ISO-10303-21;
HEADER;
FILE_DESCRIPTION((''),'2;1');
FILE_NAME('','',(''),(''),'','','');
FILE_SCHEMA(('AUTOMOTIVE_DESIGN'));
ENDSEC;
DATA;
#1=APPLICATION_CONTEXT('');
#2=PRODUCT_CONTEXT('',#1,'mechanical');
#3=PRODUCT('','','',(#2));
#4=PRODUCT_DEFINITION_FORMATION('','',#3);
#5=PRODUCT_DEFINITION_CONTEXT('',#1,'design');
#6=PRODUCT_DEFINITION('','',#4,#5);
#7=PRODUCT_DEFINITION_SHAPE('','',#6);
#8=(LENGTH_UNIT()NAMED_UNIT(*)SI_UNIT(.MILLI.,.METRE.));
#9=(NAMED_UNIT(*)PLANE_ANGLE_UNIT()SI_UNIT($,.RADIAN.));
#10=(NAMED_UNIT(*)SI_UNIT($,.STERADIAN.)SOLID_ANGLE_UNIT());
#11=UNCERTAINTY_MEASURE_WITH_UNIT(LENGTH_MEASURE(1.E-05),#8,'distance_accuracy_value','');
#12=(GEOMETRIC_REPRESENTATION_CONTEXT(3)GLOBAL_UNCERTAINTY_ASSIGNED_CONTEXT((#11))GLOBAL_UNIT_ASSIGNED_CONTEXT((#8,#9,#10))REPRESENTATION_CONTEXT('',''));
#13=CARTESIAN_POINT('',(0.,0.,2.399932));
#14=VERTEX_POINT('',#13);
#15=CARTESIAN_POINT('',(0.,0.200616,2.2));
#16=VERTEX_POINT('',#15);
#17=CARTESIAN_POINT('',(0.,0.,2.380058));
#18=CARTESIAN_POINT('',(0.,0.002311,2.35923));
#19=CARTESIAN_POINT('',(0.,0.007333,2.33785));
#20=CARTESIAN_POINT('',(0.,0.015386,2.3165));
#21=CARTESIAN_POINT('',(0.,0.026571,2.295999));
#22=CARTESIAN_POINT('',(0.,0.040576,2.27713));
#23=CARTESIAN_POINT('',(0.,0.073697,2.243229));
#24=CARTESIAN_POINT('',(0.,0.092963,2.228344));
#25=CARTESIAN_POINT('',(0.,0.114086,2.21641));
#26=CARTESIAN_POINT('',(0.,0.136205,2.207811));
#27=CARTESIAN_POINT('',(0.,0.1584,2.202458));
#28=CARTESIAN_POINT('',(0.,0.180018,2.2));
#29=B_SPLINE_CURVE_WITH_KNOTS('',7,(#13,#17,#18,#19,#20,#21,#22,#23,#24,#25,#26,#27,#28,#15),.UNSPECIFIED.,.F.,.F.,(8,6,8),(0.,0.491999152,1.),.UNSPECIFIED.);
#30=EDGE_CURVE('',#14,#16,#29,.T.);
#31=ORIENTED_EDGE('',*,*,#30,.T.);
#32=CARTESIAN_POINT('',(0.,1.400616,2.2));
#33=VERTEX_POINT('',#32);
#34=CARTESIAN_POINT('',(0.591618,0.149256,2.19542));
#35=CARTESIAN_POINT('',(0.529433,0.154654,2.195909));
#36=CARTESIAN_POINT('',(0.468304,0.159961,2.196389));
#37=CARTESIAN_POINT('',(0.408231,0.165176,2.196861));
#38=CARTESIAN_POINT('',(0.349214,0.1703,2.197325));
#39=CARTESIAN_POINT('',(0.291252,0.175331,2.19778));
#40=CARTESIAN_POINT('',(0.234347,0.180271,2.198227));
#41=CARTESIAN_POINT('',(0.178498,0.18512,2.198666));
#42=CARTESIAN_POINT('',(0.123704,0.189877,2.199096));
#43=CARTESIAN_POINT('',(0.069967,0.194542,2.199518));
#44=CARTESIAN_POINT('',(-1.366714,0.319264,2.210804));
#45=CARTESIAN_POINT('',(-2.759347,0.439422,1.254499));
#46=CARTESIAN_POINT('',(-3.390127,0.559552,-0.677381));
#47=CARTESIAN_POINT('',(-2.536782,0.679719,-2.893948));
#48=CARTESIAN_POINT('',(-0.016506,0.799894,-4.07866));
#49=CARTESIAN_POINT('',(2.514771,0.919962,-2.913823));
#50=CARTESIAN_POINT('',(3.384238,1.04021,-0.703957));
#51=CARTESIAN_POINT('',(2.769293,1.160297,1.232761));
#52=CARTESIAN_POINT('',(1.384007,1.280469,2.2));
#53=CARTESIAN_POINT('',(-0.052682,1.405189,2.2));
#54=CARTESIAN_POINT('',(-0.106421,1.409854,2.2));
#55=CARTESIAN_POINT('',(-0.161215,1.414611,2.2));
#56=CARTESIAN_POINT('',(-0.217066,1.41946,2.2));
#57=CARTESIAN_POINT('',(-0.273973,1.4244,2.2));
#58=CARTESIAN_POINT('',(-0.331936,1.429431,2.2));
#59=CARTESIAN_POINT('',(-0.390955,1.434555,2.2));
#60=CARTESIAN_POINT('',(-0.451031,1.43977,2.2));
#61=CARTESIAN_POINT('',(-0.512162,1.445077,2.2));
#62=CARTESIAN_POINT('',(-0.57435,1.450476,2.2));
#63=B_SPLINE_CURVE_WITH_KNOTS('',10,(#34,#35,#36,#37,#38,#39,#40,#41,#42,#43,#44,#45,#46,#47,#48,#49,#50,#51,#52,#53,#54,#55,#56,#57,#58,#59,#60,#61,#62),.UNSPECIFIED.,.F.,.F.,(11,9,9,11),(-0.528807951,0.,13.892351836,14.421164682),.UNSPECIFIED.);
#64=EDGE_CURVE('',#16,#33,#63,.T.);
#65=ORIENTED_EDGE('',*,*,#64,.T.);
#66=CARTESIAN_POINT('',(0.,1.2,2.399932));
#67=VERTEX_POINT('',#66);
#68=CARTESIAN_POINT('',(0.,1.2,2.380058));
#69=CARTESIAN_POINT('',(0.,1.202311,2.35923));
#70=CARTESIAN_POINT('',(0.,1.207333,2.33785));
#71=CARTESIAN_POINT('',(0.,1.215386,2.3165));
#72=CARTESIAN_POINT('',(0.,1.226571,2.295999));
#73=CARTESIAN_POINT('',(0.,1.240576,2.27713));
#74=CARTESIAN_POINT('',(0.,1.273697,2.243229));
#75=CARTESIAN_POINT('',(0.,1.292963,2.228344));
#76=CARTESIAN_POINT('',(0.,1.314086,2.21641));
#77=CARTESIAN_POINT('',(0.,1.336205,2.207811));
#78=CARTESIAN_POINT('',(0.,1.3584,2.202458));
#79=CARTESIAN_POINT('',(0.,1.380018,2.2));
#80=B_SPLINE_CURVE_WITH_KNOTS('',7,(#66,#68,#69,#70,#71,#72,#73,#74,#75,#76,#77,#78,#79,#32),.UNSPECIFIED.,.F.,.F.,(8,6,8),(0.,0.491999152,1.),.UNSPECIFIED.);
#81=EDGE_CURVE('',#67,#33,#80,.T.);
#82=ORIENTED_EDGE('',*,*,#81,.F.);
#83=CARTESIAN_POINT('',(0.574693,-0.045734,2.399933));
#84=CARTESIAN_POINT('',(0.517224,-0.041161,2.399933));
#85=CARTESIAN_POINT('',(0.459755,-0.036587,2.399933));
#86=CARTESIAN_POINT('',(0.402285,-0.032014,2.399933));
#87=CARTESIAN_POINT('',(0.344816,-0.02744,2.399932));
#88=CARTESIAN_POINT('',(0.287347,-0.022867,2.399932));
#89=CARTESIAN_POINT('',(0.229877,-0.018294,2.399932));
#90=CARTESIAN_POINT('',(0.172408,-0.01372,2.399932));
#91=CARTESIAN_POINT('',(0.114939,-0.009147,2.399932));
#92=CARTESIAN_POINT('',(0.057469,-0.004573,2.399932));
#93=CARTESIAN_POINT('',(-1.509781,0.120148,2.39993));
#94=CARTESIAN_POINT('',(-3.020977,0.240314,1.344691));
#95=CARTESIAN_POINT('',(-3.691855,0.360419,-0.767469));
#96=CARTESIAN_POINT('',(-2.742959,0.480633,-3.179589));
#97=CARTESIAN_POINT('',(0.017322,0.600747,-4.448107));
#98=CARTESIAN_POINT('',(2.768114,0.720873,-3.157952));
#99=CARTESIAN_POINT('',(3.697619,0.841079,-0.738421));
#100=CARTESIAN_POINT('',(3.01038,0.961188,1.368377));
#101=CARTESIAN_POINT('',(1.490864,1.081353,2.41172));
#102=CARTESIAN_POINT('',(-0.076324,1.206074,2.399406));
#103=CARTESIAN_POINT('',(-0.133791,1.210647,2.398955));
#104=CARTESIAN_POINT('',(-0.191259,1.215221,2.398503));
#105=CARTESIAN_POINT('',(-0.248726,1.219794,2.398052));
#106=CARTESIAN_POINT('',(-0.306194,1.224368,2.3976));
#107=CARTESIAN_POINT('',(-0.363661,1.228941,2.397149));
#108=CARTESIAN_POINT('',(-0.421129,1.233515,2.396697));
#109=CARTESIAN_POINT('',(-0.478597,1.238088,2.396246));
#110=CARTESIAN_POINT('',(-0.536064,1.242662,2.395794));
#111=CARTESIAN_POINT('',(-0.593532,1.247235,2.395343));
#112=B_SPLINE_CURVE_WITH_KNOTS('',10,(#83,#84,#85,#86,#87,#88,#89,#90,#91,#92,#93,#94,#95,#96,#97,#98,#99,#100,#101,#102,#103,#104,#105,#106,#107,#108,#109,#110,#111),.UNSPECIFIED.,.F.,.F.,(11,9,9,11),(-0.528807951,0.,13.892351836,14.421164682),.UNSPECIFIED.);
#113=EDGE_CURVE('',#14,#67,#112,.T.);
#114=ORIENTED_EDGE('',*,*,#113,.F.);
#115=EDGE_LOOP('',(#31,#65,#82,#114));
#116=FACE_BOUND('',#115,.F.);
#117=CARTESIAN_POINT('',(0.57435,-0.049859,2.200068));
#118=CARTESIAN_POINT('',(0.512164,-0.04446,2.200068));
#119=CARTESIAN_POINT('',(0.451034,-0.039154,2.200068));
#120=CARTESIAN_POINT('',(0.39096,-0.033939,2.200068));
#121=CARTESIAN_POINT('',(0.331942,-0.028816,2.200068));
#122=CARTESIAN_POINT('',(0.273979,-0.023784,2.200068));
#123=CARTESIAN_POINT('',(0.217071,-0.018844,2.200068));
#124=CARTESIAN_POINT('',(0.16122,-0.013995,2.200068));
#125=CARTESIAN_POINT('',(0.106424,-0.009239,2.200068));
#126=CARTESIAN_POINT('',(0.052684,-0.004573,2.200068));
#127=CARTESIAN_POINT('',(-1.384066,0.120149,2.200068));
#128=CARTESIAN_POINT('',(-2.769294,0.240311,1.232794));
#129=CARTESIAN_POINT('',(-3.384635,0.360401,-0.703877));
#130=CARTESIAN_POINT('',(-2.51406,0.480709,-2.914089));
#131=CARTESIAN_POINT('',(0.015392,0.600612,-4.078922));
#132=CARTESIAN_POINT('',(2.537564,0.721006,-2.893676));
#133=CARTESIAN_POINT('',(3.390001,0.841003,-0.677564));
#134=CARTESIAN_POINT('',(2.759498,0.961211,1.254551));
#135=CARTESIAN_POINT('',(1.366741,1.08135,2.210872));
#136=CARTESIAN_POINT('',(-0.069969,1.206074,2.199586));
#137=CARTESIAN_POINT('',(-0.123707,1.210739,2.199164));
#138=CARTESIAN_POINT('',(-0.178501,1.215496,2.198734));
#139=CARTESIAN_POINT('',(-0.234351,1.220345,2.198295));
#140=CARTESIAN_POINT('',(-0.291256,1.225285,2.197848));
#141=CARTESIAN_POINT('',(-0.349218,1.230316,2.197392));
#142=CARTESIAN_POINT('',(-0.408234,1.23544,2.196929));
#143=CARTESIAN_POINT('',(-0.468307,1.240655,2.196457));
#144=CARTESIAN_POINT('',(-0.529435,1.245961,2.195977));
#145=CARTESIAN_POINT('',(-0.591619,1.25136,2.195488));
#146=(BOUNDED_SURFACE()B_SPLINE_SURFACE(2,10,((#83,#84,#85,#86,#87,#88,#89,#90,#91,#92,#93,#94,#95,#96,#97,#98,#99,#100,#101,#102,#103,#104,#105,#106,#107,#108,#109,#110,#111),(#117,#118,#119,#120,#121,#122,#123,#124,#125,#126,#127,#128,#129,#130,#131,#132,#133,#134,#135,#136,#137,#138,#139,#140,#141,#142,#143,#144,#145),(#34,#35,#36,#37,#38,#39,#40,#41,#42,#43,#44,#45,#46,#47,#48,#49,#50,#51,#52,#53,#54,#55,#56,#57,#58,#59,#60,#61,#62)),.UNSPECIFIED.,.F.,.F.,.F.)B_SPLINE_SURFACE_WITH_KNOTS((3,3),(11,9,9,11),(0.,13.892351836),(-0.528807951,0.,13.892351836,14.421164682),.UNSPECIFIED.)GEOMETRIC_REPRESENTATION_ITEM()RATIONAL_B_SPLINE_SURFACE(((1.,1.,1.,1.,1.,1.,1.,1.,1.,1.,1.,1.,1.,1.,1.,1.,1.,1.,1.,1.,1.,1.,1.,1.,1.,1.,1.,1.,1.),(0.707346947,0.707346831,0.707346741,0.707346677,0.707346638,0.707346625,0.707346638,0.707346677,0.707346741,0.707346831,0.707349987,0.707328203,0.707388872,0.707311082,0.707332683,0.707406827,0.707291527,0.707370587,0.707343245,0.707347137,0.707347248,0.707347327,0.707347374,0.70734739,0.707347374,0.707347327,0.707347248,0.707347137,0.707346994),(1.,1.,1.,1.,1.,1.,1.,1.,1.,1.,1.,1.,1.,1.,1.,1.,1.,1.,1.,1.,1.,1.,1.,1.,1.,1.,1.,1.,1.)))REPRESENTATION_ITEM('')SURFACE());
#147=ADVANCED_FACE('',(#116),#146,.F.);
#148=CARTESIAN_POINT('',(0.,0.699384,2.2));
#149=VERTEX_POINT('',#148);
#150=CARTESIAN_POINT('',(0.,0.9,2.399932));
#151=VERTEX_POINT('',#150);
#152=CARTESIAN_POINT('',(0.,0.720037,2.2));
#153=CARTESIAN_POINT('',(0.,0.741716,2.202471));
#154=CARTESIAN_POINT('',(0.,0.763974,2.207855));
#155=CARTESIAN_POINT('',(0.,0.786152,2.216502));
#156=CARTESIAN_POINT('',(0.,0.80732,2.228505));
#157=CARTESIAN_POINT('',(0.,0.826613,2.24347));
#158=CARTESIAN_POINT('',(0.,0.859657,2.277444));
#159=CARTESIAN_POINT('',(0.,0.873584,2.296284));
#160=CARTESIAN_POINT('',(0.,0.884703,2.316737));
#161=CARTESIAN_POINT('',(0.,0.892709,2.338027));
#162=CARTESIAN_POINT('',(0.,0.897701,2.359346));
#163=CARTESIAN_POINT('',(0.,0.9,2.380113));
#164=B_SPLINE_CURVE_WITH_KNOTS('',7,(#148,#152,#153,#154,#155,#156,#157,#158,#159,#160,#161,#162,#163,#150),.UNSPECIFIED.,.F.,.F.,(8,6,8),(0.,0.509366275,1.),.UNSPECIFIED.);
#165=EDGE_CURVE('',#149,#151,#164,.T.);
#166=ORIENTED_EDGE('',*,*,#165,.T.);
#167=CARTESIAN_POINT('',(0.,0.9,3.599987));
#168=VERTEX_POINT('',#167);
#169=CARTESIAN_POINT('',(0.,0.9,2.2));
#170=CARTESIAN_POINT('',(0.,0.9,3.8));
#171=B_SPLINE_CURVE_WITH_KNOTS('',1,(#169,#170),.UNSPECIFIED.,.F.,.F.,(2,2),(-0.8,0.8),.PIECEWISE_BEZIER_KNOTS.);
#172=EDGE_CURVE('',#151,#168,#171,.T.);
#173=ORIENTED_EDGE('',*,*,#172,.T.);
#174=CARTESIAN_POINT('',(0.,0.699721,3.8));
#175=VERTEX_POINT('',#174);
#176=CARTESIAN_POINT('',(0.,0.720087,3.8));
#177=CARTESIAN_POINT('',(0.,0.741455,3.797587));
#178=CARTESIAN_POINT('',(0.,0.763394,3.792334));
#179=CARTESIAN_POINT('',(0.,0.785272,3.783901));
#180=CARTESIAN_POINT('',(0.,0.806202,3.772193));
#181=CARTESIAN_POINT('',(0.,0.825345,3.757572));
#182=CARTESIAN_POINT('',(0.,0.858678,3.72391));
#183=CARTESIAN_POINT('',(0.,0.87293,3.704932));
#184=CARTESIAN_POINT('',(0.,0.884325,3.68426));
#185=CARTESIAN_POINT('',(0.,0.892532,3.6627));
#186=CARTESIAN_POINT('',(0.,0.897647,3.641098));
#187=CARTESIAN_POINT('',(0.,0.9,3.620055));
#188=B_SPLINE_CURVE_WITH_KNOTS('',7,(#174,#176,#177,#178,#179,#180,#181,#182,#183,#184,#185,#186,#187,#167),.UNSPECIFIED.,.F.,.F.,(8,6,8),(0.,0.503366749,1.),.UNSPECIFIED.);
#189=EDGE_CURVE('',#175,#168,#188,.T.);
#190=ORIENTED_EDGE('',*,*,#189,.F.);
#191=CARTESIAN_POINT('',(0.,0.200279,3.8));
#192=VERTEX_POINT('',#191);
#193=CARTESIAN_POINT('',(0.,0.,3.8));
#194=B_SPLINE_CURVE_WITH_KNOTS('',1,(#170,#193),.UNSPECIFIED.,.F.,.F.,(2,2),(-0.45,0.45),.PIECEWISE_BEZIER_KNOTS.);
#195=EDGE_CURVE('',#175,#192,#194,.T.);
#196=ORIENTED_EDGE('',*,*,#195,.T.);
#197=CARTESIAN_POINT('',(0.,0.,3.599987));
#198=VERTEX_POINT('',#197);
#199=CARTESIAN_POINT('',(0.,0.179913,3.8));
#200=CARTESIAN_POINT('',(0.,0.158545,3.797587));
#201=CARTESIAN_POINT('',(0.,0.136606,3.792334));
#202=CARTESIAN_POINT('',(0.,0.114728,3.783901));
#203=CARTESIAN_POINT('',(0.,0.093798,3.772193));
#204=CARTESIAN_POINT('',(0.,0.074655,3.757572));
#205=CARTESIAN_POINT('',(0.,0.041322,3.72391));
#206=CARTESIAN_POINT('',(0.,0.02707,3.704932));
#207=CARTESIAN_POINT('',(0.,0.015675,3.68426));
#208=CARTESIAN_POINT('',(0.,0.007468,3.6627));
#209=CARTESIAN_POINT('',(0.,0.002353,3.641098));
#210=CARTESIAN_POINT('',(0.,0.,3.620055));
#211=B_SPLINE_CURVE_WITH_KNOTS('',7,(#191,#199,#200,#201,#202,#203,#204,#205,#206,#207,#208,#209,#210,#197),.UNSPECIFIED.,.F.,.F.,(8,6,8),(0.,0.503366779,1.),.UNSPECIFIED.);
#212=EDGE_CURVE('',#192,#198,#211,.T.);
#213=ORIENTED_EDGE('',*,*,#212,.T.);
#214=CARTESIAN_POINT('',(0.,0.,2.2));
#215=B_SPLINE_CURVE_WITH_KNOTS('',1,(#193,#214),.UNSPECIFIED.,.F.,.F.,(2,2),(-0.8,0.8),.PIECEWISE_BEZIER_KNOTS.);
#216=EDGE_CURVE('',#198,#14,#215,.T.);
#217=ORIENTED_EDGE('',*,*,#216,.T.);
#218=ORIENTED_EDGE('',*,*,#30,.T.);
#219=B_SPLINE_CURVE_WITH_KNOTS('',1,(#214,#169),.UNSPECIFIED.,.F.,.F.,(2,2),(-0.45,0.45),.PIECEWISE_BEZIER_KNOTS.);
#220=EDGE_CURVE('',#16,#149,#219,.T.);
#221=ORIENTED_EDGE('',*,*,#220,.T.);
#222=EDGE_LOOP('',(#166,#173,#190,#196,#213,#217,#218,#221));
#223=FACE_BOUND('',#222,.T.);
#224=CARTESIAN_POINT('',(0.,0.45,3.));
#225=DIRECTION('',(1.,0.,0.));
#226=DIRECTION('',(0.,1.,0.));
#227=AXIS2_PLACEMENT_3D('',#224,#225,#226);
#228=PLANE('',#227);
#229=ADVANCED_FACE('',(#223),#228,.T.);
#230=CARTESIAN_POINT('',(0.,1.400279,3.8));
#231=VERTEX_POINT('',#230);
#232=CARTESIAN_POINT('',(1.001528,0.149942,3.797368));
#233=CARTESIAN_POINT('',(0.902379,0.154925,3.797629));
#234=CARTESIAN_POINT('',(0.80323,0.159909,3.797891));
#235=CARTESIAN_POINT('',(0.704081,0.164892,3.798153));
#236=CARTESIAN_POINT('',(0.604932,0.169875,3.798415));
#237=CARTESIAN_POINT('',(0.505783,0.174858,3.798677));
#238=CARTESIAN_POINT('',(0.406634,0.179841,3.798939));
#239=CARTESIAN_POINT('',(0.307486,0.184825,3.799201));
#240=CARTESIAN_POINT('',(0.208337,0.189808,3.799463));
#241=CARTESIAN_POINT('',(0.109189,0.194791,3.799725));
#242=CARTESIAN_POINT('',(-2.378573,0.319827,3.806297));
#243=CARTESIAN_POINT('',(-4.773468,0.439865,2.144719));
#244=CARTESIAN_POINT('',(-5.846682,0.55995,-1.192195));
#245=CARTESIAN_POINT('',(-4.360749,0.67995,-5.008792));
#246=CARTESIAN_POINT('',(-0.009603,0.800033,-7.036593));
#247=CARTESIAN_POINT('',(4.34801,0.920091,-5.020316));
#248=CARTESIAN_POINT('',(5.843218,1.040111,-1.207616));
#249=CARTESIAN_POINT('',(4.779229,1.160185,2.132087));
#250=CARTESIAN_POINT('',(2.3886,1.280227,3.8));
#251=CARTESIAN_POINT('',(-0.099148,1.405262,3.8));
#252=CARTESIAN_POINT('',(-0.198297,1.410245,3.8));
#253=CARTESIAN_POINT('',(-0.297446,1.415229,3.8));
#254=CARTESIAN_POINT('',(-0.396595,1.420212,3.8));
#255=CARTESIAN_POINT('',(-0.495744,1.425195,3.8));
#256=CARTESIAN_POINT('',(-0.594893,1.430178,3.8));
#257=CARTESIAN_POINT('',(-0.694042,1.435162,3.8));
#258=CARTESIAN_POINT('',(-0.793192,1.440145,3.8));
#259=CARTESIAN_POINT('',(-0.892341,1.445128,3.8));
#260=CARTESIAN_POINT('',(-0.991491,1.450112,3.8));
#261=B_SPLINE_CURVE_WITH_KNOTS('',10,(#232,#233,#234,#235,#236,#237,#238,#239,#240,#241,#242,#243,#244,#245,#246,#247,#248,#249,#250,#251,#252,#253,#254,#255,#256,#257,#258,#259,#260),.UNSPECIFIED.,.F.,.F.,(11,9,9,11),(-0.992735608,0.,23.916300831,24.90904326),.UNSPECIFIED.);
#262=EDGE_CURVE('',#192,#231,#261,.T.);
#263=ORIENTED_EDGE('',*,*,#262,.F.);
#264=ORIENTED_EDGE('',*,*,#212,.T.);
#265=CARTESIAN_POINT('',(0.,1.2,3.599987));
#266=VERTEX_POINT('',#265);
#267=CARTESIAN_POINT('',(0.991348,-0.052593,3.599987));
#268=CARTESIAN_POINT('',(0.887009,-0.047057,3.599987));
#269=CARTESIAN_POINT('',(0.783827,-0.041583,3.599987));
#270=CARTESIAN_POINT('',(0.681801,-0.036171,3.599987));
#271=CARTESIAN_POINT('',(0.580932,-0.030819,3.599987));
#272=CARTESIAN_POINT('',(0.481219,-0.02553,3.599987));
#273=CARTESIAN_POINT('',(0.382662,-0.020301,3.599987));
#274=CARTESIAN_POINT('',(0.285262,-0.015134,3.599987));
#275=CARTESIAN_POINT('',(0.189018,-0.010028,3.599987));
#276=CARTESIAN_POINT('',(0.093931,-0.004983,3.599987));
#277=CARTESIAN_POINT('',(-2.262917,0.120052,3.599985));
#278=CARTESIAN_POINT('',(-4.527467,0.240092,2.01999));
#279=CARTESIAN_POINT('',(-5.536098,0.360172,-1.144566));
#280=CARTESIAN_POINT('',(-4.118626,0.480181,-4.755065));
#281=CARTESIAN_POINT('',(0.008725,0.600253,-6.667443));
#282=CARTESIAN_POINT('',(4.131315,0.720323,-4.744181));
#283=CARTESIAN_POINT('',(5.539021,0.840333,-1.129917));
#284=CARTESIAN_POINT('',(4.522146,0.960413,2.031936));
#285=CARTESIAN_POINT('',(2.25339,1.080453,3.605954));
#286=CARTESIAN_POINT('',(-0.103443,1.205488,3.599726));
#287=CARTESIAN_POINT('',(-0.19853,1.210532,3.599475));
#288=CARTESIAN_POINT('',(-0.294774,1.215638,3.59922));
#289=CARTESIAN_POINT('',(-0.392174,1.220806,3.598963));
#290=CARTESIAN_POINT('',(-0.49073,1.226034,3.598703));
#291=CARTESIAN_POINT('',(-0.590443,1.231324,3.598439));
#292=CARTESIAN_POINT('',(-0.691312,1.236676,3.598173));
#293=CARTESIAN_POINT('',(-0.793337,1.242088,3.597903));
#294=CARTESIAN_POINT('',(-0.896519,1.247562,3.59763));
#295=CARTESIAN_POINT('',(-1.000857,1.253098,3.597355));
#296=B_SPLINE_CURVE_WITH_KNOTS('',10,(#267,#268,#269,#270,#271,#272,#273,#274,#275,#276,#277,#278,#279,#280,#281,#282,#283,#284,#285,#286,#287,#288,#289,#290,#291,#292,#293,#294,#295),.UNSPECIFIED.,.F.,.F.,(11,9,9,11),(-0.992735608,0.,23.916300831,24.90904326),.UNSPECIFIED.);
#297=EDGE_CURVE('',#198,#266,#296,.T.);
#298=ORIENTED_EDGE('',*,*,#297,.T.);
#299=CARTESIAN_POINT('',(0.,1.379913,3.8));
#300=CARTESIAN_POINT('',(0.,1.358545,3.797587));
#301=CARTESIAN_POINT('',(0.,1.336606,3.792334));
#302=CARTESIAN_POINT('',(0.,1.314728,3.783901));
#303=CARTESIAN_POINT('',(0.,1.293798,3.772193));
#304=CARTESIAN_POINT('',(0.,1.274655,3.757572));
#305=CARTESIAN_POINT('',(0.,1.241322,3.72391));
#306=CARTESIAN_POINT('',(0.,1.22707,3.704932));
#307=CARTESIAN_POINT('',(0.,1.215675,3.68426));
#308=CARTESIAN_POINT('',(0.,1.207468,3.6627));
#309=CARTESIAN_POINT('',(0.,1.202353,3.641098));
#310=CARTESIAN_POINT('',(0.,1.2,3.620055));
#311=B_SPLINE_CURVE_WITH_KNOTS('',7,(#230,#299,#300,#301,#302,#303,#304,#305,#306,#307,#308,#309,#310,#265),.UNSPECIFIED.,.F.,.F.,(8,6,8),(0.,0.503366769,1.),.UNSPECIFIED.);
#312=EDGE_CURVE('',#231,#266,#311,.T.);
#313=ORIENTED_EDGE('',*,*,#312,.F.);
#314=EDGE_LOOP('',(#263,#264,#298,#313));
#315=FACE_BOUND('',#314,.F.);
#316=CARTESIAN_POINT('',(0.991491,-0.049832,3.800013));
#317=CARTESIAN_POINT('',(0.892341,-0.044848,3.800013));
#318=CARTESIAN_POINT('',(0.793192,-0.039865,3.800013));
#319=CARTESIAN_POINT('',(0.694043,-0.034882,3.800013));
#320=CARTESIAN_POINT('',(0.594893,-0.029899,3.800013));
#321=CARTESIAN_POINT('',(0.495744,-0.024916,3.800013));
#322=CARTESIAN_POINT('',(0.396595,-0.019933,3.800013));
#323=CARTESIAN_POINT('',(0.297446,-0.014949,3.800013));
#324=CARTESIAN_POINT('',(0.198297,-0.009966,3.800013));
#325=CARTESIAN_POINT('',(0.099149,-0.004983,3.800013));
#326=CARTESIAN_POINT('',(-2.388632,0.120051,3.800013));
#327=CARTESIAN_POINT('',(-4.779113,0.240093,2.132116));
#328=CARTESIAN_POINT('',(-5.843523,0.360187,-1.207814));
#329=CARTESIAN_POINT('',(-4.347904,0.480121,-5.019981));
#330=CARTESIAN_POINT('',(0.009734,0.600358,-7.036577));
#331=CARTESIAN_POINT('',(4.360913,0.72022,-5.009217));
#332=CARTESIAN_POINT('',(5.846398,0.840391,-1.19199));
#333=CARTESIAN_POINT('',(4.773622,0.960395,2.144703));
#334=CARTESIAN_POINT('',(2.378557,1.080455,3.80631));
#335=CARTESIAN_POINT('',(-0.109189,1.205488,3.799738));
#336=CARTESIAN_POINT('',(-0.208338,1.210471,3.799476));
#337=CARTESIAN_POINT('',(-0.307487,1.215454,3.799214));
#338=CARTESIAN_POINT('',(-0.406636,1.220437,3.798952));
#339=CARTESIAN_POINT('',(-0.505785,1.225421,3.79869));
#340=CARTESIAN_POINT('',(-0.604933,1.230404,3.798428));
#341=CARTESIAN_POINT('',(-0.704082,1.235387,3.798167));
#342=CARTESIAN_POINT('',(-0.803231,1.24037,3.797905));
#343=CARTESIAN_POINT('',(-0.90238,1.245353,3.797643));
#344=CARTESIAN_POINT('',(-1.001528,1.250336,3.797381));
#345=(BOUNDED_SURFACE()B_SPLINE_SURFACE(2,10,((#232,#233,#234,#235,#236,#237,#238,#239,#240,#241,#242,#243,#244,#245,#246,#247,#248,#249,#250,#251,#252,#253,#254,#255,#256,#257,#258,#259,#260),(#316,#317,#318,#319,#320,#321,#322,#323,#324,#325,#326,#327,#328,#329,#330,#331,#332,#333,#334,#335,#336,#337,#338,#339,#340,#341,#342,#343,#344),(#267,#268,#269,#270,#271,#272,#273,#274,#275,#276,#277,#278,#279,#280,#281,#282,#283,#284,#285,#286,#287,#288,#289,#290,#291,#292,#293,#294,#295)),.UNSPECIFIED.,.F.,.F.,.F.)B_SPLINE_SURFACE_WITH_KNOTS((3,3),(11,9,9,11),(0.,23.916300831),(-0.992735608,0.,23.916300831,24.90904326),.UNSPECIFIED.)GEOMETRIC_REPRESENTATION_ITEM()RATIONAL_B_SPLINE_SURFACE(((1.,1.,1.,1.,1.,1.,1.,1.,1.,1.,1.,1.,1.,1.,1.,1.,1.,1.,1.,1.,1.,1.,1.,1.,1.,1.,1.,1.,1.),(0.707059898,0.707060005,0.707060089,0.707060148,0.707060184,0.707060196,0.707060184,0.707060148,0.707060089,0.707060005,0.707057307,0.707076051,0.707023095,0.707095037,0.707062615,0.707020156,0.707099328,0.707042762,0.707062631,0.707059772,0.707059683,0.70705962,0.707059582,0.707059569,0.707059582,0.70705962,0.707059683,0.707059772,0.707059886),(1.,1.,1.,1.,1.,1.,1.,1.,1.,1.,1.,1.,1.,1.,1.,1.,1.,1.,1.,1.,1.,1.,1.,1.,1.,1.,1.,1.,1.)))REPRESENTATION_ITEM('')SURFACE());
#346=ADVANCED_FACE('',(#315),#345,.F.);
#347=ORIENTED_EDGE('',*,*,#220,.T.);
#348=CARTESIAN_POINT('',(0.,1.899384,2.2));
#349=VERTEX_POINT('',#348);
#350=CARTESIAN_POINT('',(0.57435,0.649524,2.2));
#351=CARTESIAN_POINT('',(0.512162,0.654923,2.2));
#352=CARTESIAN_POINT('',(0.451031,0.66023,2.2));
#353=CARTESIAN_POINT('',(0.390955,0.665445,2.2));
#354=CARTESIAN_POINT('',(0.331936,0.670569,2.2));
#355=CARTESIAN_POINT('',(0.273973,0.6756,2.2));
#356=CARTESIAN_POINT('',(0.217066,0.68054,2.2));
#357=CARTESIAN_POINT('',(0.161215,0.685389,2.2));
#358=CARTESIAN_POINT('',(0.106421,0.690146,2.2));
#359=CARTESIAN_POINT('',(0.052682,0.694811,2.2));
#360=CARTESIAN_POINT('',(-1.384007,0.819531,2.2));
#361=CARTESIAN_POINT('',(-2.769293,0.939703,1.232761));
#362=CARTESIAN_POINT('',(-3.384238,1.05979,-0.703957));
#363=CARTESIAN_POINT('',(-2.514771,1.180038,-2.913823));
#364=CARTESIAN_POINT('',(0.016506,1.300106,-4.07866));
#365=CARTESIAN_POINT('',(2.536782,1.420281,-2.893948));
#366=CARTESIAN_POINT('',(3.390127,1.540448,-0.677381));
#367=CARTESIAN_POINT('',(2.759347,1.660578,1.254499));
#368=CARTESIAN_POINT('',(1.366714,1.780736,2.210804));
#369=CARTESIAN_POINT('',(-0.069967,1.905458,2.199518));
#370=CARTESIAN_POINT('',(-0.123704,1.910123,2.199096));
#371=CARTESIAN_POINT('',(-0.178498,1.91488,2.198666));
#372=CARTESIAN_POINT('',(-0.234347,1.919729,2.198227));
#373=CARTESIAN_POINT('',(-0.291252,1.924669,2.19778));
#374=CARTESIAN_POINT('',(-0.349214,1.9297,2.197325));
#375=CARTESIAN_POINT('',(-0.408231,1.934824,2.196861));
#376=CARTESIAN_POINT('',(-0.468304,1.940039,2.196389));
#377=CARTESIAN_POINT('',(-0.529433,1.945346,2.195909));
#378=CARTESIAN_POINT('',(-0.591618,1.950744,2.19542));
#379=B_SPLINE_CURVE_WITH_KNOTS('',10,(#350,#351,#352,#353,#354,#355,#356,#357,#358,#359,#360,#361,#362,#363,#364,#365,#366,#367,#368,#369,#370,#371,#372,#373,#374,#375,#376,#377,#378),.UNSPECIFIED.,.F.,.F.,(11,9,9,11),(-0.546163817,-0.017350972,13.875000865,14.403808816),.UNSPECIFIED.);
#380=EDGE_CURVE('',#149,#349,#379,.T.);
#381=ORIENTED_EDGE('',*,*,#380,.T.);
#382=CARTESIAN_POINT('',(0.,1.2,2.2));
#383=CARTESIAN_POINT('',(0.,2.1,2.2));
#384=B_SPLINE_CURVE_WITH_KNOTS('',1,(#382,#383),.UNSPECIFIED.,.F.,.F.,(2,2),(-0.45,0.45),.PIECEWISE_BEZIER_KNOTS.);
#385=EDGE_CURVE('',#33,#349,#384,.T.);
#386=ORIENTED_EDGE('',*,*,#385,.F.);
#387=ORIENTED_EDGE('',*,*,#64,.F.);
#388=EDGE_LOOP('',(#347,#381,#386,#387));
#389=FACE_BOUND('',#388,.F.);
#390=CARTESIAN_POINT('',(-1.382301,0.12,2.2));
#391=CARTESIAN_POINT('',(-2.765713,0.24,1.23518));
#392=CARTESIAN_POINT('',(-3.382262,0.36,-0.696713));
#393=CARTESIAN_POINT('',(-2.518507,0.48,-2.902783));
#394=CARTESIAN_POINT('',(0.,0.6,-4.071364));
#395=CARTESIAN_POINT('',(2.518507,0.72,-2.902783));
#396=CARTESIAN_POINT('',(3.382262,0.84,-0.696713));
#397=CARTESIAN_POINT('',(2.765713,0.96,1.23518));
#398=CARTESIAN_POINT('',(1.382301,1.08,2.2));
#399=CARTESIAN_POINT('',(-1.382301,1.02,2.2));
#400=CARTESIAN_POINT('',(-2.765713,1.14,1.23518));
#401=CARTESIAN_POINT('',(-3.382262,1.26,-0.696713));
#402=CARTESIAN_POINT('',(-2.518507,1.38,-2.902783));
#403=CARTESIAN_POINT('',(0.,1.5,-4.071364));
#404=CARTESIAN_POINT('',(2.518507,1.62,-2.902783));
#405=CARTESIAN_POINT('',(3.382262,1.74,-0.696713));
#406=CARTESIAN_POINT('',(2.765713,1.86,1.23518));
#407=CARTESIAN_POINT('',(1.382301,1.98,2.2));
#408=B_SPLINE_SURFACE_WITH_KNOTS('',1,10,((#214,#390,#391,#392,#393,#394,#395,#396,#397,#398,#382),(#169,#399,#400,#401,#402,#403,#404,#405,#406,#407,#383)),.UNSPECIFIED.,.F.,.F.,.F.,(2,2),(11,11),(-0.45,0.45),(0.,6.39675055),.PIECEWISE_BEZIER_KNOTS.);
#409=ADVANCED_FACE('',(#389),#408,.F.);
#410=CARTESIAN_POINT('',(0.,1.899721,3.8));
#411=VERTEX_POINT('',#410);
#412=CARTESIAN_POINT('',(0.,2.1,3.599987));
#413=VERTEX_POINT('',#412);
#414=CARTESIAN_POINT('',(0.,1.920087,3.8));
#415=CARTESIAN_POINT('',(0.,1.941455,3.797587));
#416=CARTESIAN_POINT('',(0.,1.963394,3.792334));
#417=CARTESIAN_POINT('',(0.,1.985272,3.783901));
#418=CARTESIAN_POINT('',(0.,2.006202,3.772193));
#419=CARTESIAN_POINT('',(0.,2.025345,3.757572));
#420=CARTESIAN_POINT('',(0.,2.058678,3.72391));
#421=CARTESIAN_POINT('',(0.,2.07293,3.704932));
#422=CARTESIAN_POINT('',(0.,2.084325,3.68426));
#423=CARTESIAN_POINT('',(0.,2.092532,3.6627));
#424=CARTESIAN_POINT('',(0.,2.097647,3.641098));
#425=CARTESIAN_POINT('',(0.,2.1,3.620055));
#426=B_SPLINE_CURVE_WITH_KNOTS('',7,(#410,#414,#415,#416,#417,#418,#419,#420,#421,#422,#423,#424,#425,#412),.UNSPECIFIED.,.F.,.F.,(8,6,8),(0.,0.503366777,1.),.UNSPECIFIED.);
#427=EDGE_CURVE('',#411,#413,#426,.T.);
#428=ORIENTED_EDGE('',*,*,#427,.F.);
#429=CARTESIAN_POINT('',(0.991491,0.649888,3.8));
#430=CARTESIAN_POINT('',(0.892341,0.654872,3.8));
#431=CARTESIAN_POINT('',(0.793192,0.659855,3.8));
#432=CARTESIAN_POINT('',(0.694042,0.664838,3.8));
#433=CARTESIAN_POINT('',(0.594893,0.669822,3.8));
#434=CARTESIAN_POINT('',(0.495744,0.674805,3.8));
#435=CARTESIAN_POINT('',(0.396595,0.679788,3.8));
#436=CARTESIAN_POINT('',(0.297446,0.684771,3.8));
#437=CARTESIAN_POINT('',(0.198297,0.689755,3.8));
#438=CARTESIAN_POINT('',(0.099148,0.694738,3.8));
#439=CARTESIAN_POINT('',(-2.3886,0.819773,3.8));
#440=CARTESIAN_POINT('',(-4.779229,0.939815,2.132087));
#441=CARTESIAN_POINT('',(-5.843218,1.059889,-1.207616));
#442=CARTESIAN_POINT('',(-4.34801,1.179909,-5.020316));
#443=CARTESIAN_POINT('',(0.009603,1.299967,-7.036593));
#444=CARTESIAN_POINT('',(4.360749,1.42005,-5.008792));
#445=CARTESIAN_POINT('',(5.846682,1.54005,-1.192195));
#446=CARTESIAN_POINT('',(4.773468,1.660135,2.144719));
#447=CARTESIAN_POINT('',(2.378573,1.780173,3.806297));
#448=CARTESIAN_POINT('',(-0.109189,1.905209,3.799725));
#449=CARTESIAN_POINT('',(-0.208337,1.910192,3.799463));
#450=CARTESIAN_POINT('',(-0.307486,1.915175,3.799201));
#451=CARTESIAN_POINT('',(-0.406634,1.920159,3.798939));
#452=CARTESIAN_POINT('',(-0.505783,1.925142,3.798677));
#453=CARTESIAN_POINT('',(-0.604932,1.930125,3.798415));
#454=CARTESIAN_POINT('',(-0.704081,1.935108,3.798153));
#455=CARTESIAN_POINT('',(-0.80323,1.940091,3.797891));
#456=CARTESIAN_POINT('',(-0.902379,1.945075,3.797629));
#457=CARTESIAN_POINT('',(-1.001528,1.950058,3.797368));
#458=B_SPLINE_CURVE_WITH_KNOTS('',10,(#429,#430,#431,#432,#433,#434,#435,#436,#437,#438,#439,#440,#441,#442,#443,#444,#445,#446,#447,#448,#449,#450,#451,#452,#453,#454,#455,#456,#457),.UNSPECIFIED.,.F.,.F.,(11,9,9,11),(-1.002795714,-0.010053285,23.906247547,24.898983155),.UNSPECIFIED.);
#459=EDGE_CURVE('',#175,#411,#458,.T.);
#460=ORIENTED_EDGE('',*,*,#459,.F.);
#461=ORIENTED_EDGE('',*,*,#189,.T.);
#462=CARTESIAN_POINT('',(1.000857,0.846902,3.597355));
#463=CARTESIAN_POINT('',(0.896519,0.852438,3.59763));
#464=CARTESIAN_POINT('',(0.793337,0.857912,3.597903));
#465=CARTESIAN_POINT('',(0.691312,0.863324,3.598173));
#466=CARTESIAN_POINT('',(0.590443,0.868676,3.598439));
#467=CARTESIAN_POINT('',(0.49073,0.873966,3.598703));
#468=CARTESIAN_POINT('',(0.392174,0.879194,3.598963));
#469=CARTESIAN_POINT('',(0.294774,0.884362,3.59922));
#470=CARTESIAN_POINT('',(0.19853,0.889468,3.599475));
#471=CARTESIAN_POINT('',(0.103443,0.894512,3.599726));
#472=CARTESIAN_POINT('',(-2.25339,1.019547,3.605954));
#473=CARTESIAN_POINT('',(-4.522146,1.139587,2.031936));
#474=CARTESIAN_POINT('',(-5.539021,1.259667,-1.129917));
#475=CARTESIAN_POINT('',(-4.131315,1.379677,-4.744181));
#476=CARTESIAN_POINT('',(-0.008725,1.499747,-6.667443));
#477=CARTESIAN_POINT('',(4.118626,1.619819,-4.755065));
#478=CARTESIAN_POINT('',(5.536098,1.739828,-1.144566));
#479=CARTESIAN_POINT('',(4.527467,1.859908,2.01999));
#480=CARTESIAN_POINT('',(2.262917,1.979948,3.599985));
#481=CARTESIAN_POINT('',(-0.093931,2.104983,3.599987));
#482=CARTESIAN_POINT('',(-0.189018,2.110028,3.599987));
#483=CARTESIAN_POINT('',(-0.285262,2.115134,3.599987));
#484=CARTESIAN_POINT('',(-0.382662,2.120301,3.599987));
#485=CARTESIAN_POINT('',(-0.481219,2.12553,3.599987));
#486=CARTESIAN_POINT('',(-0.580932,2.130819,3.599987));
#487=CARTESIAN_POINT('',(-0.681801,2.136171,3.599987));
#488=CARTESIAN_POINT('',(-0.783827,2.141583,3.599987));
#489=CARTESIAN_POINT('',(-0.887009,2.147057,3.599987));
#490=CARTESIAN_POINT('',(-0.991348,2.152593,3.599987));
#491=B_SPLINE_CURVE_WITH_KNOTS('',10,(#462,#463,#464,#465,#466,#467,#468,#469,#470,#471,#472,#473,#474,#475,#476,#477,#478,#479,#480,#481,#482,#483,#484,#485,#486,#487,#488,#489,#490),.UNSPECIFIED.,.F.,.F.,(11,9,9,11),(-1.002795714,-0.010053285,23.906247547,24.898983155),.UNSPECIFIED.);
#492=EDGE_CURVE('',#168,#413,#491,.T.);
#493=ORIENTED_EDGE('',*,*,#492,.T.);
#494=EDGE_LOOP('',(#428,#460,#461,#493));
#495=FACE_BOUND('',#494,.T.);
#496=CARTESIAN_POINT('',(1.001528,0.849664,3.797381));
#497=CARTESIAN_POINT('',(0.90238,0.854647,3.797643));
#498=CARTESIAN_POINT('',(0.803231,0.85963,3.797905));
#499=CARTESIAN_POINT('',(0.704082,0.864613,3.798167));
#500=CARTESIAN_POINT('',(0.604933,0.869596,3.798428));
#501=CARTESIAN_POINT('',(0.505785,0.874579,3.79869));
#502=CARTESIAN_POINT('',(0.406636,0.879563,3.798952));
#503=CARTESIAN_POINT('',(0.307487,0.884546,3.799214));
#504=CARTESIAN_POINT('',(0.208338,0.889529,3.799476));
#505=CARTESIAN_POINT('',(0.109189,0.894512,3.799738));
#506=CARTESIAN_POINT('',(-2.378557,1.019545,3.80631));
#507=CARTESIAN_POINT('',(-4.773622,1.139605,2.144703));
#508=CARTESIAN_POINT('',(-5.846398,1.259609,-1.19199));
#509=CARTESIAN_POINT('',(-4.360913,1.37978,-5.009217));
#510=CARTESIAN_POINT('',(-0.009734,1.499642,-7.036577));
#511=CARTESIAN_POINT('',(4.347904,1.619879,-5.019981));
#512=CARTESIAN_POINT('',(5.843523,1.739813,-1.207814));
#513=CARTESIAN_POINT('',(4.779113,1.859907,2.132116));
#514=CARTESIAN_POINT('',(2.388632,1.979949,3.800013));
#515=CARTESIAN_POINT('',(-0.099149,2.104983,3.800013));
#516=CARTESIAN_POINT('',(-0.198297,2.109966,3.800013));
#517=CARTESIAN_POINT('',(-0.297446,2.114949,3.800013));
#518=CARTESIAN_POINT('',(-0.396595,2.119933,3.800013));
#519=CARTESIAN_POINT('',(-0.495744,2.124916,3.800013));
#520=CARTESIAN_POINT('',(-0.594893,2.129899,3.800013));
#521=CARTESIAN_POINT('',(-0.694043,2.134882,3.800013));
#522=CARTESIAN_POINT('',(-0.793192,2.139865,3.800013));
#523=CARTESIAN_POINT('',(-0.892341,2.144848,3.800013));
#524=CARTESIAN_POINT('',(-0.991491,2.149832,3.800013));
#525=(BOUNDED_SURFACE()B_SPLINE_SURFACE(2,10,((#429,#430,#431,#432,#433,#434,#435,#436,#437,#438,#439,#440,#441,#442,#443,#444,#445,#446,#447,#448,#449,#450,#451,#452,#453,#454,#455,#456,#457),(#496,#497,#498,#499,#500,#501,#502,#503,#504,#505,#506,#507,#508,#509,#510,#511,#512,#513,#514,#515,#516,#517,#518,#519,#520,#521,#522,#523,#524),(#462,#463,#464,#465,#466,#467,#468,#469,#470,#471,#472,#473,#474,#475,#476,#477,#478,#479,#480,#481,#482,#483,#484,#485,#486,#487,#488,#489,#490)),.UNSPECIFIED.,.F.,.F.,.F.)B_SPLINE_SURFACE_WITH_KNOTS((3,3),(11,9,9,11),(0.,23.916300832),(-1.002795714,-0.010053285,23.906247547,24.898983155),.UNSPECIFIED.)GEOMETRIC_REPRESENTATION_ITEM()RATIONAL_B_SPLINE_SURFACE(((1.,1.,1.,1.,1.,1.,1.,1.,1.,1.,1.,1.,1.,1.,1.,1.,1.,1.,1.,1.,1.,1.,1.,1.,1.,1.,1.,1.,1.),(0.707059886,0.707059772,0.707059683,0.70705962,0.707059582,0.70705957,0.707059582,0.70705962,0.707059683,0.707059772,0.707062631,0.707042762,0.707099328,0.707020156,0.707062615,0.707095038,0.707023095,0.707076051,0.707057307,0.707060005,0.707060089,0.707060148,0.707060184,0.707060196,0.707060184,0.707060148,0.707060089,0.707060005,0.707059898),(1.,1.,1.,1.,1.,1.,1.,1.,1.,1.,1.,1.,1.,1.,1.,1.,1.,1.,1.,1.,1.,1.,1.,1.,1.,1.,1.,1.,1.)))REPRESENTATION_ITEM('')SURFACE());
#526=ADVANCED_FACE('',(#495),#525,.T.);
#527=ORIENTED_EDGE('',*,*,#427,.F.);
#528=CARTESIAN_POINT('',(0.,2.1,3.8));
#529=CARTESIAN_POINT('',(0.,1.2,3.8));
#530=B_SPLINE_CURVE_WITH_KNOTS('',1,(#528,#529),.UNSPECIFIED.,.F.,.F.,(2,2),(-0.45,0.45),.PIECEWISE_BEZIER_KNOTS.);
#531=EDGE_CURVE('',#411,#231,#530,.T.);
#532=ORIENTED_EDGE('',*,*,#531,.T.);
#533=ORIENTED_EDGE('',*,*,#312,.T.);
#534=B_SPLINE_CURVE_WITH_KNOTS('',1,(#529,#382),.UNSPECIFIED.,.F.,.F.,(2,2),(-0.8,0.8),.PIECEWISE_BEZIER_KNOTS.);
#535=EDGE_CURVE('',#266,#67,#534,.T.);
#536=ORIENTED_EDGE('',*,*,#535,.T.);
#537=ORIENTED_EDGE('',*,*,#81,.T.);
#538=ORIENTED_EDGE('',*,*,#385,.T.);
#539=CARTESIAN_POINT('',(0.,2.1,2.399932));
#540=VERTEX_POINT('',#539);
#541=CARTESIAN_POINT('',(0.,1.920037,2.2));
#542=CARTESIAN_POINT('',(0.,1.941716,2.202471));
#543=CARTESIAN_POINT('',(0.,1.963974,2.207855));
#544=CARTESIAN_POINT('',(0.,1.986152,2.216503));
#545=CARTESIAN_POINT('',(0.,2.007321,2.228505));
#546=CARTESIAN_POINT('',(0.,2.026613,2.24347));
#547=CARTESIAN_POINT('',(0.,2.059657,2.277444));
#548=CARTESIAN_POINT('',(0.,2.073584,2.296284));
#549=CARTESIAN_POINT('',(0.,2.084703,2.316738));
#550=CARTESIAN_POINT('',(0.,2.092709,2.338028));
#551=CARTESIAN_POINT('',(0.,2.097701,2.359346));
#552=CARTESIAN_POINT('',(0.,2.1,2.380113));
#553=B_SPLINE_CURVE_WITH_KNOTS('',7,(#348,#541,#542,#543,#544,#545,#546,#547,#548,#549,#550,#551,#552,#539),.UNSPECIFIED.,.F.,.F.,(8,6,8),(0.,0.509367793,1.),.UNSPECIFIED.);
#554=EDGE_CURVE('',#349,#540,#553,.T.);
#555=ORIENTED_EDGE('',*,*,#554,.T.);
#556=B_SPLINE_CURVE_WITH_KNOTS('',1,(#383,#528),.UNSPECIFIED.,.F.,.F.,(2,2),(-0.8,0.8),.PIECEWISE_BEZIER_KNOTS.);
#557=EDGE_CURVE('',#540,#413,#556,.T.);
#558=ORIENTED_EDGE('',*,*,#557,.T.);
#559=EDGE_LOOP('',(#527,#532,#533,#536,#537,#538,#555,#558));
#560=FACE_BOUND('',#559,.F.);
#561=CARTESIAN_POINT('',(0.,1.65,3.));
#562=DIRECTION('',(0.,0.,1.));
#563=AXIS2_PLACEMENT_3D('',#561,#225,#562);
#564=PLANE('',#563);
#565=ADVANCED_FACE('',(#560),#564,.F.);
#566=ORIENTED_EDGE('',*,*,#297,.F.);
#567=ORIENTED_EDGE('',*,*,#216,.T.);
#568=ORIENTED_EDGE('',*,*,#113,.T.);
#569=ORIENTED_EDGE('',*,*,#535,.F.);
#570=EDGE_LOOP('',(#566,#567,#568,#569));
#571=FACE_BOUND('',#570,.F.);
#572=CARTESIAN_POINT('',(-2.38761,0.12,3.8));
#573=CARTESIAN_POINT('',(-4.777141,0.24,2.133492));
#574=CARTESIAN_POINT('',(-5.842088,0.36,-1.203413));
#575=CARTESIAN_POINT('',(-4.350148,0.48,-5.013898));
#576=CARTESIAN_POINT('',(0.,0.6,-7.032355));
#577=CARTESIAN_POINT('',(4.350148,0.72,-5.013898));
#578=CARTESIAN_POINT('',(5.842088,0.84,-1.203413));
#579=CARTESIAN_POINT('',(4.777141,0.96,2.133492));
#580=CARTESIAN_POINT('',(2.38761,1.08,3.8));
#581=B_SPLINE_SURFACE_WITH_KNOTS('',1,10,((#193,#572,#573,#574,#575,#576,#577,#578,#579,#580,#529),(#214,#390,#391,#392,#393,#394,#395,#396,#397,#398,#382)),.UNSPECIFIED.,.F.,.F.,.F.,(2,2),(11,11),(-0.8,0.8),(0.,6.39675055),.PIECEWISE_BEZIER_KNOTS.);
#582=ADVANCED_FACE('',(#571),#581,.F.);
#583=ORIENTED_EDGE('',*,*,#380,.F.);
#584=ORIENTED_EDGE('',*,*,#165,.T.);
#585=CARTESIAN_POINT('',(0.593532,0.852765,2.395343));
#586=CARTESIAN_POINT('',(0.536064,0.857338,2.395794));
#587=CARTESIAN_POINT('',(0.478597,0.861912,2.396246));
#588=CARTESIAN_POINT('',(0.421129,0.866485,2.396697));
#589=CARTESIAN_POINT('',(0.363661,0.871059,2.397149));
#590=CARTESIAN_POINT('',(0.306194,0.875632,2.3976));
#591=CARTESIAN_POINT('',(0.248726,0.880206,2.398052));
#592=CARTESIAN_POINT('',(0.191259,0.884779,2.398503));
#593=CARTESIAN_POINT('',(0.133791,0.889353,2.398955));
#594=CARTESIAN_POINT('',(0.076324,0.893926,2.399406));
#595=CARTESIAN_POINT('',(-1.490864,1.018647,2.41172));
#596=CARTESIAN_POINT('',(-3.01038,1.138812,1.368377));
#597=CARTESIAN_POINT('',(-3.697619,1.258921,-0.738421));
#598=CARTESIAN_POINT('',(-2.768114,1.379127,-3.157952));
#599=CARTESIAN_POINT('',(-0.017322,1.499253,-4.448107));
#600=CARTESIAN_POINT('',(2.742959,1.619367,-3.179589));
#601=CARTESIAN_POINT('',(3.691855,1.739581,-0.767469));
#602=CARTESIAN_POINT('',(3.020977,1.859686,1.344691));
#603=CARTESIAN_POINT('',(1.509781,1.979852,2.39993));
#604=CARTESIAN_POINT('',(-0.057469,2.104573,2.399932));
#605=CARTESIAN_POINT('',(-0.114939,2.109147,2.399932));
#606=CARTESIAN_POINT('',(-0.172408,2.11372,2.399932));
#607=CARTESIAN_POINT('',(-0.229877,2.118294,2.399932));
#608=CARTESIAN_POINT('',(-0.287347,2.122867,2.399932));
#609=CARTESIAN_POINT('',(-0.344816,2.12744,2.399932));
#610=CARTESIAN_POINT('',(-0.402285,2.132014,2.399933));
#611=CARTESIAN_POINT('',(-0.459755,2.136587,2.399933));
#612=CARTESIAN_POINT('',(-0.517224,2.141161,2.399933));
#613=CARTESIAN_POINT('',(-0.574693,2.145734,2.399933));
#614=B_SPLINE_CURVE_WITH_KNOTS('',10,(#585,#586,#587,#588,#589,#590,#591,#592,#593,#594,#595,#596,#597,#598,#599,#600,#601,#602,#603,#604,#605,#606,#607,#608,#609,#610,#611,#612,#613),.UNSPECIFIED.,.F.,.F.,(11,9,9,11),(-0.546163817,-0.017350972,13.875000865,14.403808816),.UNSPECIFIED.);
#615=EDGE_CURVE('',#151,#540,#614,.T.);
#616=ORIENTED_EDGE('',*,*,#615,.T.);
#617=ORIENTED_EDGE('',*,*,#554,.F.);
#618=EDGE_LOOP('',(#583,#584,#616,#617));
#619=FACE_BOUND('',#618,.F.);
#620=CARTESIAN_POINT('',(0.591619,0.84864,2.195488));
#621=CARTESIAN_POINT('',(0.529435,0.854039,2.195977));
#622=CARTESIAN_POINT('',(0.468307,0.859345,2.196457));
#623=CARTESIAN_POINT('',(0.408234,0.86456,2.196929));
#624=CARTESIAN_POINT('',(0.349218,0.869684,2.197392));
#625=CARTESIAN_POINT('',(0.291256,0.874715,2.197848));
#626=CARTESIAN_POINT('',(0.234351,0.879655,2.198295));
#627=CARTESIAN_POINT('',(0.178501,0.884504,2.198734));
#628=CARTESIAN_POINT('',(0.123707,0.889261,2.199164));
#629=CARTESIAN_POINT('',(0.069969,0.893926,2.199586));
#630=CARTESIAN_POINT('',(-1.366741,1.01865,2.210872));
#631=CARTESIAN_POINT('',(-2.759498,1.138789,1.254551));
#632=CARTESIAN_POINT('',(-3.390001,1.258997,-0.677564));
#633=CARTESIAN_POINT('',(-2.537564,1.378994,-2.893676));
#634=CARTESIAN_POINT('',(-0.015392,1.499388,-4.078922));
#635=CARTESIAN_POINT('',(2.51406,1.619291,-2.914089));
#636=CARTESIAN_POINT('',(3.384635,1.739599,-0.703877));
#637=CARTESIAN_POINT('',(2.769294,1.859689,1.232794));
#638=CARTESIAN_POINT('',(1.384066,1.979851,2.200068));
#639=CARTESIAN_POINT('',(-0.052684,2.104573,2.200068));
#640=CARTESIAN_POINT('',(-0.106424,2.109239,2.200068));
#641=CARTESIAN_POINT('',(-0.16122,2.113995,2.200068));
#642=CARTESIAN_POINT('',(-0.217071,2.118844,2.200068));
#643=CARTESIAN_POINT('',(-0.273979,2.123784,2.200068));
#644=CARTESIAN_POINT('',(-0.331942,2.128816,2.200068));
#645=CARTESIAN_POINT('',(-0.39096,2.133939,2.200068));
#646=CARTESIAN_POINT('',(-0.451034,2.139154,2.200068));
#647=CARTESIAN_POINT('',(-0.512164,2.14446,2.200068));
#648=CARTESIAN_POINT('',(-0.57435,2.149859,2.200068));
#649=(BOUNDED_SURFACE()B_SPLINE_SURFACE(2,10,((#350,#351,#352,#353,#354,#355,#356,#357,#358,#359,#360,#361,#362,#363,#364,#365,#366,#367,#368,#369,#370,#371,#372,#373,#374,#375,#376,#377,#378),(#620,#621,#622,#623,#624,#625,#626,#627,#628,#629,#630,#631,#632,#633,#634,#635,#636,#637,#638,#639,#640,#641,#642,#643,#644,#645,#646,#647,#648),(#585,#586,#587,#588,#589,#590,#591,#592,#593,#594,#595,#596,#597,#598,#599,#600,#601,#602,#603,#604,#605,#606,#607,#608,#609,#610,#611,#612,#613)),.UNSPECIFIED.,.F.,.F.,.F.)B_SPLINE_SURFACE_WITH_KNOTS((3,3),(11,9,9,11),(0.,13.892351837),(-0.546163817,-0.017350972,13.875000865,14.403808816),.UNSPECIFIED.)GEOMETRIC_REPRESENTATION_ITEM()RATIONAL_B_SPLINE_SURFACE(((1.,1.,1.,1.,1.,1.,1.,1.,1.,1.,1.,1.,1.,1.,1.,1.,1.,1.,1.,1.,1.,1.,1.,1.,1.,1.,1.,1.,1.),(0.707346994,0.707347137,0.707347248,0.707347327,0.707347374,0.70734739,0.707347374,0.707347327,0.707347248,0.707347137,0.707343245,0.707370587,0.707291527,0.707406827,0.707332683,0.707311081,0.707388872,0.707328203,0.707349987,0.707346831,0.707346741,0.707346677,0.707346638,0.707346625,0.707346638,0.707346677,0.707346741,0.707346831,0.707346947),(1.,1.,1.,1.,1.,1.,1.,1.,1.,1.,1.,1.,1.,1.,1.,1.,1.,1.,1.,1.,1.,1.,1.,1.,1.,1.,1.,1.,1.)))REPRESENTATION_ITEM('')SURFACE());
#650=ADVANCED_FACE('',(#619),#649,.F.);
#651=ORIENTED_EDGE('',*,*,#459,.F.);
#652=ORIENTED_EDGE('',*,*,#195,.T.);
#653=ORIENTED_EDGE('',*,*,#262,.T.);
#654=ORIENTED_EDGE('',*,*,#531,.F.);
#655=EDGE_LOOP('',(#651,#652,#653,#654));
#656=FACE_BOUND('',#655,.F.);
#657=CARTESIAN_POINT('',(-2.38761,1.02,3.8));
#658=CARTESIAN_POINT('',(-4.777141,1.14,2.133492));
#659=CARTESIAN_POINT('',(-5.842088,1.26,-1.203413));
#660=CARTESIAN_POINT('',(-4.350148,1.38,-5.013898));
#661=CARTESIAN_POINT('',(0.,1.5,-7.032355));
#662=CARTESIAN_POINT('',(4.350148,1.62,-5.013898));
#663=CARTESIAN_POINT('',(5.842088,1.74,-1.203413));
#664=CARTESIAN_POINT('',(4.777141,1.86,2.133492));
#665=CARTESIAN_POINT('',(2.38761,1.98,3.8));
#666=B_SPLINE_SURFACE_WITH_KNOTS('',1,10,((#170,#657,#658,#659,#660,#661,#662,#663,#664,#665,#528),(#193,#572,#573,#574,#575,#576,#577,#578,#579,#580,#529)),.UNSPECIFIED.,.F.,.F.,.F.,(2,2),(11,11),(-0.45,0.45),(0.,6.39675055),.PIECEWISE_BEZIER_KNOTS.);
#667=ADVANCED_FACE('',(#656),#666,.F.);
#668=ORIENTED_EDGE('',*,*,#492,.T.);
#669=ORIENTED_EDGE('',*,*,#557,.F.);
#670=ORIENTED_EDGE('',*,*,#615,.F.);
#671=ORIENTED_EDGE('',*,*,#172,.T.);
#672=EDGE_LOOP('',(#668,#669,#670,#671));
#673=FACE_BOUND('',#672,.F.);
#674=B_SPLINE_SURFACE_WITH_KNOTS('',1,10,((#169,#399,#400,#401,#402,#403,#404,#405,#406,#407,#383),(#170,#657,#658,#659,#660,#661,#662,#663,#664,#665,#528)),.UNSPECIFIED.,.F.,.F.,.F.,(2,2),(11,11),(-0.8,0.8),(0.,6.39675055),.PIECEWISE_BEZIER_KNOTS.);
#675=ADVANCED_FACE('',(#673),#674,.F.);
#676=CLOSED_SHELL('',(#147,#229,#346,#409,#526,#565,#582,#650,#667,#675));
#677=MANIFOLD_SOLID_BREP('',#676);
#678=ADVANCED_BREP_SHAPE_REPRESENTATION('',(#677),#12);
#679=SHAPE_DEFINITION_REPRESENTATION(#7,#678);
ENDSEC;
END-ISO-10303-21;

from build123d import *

# Parameters (mm, degrees)
SWEEP1_PITCH  = 1.2
SWEEP1_HEIGHT = 1.2
SWEEP1_RADIUS = 2.2
SKETCH2_W     = 1.6
SKETCH2_H     = 0.9
FILLET1_R     = 0.2


with BuildPart() as part:
    # Sweep1: sweep along a helix
    with BuildLine() as sweep1_path:
        Helix(SWEEP1_PITCH, SWEEP1_HEIGHT, SWEEP1_RADIUS, center=(0, 0, 0), direction=(0, 1, 0), lefthand=True)
    # Sketch2 → Sweep1 (sweep)
    with BuildSketch(Plane(origin=(0, 0, 0), x_dir=(0, 0, -1), z_dir=(1, 0, 0))):
        with Locations((-3, 0.45)):
            Rectangle(SKETCH2_W, SKETCH2_H)
    sweep(path=sweep1_path.line, is_frenet=True)

    # Fillet1
    fillet1_edges = [part.edges().sort_by_distance(p)[0] for p in [
        (0, 0.6, -3.799995909),
        (0, 0.6, -2.199997632),
        (0, 1.5, -2.199997632),
        (0, 1.5, -3.799995909),
    ]]
    fillet(fillet1_edges, radius=FILLET1_R)


solid = part.part
